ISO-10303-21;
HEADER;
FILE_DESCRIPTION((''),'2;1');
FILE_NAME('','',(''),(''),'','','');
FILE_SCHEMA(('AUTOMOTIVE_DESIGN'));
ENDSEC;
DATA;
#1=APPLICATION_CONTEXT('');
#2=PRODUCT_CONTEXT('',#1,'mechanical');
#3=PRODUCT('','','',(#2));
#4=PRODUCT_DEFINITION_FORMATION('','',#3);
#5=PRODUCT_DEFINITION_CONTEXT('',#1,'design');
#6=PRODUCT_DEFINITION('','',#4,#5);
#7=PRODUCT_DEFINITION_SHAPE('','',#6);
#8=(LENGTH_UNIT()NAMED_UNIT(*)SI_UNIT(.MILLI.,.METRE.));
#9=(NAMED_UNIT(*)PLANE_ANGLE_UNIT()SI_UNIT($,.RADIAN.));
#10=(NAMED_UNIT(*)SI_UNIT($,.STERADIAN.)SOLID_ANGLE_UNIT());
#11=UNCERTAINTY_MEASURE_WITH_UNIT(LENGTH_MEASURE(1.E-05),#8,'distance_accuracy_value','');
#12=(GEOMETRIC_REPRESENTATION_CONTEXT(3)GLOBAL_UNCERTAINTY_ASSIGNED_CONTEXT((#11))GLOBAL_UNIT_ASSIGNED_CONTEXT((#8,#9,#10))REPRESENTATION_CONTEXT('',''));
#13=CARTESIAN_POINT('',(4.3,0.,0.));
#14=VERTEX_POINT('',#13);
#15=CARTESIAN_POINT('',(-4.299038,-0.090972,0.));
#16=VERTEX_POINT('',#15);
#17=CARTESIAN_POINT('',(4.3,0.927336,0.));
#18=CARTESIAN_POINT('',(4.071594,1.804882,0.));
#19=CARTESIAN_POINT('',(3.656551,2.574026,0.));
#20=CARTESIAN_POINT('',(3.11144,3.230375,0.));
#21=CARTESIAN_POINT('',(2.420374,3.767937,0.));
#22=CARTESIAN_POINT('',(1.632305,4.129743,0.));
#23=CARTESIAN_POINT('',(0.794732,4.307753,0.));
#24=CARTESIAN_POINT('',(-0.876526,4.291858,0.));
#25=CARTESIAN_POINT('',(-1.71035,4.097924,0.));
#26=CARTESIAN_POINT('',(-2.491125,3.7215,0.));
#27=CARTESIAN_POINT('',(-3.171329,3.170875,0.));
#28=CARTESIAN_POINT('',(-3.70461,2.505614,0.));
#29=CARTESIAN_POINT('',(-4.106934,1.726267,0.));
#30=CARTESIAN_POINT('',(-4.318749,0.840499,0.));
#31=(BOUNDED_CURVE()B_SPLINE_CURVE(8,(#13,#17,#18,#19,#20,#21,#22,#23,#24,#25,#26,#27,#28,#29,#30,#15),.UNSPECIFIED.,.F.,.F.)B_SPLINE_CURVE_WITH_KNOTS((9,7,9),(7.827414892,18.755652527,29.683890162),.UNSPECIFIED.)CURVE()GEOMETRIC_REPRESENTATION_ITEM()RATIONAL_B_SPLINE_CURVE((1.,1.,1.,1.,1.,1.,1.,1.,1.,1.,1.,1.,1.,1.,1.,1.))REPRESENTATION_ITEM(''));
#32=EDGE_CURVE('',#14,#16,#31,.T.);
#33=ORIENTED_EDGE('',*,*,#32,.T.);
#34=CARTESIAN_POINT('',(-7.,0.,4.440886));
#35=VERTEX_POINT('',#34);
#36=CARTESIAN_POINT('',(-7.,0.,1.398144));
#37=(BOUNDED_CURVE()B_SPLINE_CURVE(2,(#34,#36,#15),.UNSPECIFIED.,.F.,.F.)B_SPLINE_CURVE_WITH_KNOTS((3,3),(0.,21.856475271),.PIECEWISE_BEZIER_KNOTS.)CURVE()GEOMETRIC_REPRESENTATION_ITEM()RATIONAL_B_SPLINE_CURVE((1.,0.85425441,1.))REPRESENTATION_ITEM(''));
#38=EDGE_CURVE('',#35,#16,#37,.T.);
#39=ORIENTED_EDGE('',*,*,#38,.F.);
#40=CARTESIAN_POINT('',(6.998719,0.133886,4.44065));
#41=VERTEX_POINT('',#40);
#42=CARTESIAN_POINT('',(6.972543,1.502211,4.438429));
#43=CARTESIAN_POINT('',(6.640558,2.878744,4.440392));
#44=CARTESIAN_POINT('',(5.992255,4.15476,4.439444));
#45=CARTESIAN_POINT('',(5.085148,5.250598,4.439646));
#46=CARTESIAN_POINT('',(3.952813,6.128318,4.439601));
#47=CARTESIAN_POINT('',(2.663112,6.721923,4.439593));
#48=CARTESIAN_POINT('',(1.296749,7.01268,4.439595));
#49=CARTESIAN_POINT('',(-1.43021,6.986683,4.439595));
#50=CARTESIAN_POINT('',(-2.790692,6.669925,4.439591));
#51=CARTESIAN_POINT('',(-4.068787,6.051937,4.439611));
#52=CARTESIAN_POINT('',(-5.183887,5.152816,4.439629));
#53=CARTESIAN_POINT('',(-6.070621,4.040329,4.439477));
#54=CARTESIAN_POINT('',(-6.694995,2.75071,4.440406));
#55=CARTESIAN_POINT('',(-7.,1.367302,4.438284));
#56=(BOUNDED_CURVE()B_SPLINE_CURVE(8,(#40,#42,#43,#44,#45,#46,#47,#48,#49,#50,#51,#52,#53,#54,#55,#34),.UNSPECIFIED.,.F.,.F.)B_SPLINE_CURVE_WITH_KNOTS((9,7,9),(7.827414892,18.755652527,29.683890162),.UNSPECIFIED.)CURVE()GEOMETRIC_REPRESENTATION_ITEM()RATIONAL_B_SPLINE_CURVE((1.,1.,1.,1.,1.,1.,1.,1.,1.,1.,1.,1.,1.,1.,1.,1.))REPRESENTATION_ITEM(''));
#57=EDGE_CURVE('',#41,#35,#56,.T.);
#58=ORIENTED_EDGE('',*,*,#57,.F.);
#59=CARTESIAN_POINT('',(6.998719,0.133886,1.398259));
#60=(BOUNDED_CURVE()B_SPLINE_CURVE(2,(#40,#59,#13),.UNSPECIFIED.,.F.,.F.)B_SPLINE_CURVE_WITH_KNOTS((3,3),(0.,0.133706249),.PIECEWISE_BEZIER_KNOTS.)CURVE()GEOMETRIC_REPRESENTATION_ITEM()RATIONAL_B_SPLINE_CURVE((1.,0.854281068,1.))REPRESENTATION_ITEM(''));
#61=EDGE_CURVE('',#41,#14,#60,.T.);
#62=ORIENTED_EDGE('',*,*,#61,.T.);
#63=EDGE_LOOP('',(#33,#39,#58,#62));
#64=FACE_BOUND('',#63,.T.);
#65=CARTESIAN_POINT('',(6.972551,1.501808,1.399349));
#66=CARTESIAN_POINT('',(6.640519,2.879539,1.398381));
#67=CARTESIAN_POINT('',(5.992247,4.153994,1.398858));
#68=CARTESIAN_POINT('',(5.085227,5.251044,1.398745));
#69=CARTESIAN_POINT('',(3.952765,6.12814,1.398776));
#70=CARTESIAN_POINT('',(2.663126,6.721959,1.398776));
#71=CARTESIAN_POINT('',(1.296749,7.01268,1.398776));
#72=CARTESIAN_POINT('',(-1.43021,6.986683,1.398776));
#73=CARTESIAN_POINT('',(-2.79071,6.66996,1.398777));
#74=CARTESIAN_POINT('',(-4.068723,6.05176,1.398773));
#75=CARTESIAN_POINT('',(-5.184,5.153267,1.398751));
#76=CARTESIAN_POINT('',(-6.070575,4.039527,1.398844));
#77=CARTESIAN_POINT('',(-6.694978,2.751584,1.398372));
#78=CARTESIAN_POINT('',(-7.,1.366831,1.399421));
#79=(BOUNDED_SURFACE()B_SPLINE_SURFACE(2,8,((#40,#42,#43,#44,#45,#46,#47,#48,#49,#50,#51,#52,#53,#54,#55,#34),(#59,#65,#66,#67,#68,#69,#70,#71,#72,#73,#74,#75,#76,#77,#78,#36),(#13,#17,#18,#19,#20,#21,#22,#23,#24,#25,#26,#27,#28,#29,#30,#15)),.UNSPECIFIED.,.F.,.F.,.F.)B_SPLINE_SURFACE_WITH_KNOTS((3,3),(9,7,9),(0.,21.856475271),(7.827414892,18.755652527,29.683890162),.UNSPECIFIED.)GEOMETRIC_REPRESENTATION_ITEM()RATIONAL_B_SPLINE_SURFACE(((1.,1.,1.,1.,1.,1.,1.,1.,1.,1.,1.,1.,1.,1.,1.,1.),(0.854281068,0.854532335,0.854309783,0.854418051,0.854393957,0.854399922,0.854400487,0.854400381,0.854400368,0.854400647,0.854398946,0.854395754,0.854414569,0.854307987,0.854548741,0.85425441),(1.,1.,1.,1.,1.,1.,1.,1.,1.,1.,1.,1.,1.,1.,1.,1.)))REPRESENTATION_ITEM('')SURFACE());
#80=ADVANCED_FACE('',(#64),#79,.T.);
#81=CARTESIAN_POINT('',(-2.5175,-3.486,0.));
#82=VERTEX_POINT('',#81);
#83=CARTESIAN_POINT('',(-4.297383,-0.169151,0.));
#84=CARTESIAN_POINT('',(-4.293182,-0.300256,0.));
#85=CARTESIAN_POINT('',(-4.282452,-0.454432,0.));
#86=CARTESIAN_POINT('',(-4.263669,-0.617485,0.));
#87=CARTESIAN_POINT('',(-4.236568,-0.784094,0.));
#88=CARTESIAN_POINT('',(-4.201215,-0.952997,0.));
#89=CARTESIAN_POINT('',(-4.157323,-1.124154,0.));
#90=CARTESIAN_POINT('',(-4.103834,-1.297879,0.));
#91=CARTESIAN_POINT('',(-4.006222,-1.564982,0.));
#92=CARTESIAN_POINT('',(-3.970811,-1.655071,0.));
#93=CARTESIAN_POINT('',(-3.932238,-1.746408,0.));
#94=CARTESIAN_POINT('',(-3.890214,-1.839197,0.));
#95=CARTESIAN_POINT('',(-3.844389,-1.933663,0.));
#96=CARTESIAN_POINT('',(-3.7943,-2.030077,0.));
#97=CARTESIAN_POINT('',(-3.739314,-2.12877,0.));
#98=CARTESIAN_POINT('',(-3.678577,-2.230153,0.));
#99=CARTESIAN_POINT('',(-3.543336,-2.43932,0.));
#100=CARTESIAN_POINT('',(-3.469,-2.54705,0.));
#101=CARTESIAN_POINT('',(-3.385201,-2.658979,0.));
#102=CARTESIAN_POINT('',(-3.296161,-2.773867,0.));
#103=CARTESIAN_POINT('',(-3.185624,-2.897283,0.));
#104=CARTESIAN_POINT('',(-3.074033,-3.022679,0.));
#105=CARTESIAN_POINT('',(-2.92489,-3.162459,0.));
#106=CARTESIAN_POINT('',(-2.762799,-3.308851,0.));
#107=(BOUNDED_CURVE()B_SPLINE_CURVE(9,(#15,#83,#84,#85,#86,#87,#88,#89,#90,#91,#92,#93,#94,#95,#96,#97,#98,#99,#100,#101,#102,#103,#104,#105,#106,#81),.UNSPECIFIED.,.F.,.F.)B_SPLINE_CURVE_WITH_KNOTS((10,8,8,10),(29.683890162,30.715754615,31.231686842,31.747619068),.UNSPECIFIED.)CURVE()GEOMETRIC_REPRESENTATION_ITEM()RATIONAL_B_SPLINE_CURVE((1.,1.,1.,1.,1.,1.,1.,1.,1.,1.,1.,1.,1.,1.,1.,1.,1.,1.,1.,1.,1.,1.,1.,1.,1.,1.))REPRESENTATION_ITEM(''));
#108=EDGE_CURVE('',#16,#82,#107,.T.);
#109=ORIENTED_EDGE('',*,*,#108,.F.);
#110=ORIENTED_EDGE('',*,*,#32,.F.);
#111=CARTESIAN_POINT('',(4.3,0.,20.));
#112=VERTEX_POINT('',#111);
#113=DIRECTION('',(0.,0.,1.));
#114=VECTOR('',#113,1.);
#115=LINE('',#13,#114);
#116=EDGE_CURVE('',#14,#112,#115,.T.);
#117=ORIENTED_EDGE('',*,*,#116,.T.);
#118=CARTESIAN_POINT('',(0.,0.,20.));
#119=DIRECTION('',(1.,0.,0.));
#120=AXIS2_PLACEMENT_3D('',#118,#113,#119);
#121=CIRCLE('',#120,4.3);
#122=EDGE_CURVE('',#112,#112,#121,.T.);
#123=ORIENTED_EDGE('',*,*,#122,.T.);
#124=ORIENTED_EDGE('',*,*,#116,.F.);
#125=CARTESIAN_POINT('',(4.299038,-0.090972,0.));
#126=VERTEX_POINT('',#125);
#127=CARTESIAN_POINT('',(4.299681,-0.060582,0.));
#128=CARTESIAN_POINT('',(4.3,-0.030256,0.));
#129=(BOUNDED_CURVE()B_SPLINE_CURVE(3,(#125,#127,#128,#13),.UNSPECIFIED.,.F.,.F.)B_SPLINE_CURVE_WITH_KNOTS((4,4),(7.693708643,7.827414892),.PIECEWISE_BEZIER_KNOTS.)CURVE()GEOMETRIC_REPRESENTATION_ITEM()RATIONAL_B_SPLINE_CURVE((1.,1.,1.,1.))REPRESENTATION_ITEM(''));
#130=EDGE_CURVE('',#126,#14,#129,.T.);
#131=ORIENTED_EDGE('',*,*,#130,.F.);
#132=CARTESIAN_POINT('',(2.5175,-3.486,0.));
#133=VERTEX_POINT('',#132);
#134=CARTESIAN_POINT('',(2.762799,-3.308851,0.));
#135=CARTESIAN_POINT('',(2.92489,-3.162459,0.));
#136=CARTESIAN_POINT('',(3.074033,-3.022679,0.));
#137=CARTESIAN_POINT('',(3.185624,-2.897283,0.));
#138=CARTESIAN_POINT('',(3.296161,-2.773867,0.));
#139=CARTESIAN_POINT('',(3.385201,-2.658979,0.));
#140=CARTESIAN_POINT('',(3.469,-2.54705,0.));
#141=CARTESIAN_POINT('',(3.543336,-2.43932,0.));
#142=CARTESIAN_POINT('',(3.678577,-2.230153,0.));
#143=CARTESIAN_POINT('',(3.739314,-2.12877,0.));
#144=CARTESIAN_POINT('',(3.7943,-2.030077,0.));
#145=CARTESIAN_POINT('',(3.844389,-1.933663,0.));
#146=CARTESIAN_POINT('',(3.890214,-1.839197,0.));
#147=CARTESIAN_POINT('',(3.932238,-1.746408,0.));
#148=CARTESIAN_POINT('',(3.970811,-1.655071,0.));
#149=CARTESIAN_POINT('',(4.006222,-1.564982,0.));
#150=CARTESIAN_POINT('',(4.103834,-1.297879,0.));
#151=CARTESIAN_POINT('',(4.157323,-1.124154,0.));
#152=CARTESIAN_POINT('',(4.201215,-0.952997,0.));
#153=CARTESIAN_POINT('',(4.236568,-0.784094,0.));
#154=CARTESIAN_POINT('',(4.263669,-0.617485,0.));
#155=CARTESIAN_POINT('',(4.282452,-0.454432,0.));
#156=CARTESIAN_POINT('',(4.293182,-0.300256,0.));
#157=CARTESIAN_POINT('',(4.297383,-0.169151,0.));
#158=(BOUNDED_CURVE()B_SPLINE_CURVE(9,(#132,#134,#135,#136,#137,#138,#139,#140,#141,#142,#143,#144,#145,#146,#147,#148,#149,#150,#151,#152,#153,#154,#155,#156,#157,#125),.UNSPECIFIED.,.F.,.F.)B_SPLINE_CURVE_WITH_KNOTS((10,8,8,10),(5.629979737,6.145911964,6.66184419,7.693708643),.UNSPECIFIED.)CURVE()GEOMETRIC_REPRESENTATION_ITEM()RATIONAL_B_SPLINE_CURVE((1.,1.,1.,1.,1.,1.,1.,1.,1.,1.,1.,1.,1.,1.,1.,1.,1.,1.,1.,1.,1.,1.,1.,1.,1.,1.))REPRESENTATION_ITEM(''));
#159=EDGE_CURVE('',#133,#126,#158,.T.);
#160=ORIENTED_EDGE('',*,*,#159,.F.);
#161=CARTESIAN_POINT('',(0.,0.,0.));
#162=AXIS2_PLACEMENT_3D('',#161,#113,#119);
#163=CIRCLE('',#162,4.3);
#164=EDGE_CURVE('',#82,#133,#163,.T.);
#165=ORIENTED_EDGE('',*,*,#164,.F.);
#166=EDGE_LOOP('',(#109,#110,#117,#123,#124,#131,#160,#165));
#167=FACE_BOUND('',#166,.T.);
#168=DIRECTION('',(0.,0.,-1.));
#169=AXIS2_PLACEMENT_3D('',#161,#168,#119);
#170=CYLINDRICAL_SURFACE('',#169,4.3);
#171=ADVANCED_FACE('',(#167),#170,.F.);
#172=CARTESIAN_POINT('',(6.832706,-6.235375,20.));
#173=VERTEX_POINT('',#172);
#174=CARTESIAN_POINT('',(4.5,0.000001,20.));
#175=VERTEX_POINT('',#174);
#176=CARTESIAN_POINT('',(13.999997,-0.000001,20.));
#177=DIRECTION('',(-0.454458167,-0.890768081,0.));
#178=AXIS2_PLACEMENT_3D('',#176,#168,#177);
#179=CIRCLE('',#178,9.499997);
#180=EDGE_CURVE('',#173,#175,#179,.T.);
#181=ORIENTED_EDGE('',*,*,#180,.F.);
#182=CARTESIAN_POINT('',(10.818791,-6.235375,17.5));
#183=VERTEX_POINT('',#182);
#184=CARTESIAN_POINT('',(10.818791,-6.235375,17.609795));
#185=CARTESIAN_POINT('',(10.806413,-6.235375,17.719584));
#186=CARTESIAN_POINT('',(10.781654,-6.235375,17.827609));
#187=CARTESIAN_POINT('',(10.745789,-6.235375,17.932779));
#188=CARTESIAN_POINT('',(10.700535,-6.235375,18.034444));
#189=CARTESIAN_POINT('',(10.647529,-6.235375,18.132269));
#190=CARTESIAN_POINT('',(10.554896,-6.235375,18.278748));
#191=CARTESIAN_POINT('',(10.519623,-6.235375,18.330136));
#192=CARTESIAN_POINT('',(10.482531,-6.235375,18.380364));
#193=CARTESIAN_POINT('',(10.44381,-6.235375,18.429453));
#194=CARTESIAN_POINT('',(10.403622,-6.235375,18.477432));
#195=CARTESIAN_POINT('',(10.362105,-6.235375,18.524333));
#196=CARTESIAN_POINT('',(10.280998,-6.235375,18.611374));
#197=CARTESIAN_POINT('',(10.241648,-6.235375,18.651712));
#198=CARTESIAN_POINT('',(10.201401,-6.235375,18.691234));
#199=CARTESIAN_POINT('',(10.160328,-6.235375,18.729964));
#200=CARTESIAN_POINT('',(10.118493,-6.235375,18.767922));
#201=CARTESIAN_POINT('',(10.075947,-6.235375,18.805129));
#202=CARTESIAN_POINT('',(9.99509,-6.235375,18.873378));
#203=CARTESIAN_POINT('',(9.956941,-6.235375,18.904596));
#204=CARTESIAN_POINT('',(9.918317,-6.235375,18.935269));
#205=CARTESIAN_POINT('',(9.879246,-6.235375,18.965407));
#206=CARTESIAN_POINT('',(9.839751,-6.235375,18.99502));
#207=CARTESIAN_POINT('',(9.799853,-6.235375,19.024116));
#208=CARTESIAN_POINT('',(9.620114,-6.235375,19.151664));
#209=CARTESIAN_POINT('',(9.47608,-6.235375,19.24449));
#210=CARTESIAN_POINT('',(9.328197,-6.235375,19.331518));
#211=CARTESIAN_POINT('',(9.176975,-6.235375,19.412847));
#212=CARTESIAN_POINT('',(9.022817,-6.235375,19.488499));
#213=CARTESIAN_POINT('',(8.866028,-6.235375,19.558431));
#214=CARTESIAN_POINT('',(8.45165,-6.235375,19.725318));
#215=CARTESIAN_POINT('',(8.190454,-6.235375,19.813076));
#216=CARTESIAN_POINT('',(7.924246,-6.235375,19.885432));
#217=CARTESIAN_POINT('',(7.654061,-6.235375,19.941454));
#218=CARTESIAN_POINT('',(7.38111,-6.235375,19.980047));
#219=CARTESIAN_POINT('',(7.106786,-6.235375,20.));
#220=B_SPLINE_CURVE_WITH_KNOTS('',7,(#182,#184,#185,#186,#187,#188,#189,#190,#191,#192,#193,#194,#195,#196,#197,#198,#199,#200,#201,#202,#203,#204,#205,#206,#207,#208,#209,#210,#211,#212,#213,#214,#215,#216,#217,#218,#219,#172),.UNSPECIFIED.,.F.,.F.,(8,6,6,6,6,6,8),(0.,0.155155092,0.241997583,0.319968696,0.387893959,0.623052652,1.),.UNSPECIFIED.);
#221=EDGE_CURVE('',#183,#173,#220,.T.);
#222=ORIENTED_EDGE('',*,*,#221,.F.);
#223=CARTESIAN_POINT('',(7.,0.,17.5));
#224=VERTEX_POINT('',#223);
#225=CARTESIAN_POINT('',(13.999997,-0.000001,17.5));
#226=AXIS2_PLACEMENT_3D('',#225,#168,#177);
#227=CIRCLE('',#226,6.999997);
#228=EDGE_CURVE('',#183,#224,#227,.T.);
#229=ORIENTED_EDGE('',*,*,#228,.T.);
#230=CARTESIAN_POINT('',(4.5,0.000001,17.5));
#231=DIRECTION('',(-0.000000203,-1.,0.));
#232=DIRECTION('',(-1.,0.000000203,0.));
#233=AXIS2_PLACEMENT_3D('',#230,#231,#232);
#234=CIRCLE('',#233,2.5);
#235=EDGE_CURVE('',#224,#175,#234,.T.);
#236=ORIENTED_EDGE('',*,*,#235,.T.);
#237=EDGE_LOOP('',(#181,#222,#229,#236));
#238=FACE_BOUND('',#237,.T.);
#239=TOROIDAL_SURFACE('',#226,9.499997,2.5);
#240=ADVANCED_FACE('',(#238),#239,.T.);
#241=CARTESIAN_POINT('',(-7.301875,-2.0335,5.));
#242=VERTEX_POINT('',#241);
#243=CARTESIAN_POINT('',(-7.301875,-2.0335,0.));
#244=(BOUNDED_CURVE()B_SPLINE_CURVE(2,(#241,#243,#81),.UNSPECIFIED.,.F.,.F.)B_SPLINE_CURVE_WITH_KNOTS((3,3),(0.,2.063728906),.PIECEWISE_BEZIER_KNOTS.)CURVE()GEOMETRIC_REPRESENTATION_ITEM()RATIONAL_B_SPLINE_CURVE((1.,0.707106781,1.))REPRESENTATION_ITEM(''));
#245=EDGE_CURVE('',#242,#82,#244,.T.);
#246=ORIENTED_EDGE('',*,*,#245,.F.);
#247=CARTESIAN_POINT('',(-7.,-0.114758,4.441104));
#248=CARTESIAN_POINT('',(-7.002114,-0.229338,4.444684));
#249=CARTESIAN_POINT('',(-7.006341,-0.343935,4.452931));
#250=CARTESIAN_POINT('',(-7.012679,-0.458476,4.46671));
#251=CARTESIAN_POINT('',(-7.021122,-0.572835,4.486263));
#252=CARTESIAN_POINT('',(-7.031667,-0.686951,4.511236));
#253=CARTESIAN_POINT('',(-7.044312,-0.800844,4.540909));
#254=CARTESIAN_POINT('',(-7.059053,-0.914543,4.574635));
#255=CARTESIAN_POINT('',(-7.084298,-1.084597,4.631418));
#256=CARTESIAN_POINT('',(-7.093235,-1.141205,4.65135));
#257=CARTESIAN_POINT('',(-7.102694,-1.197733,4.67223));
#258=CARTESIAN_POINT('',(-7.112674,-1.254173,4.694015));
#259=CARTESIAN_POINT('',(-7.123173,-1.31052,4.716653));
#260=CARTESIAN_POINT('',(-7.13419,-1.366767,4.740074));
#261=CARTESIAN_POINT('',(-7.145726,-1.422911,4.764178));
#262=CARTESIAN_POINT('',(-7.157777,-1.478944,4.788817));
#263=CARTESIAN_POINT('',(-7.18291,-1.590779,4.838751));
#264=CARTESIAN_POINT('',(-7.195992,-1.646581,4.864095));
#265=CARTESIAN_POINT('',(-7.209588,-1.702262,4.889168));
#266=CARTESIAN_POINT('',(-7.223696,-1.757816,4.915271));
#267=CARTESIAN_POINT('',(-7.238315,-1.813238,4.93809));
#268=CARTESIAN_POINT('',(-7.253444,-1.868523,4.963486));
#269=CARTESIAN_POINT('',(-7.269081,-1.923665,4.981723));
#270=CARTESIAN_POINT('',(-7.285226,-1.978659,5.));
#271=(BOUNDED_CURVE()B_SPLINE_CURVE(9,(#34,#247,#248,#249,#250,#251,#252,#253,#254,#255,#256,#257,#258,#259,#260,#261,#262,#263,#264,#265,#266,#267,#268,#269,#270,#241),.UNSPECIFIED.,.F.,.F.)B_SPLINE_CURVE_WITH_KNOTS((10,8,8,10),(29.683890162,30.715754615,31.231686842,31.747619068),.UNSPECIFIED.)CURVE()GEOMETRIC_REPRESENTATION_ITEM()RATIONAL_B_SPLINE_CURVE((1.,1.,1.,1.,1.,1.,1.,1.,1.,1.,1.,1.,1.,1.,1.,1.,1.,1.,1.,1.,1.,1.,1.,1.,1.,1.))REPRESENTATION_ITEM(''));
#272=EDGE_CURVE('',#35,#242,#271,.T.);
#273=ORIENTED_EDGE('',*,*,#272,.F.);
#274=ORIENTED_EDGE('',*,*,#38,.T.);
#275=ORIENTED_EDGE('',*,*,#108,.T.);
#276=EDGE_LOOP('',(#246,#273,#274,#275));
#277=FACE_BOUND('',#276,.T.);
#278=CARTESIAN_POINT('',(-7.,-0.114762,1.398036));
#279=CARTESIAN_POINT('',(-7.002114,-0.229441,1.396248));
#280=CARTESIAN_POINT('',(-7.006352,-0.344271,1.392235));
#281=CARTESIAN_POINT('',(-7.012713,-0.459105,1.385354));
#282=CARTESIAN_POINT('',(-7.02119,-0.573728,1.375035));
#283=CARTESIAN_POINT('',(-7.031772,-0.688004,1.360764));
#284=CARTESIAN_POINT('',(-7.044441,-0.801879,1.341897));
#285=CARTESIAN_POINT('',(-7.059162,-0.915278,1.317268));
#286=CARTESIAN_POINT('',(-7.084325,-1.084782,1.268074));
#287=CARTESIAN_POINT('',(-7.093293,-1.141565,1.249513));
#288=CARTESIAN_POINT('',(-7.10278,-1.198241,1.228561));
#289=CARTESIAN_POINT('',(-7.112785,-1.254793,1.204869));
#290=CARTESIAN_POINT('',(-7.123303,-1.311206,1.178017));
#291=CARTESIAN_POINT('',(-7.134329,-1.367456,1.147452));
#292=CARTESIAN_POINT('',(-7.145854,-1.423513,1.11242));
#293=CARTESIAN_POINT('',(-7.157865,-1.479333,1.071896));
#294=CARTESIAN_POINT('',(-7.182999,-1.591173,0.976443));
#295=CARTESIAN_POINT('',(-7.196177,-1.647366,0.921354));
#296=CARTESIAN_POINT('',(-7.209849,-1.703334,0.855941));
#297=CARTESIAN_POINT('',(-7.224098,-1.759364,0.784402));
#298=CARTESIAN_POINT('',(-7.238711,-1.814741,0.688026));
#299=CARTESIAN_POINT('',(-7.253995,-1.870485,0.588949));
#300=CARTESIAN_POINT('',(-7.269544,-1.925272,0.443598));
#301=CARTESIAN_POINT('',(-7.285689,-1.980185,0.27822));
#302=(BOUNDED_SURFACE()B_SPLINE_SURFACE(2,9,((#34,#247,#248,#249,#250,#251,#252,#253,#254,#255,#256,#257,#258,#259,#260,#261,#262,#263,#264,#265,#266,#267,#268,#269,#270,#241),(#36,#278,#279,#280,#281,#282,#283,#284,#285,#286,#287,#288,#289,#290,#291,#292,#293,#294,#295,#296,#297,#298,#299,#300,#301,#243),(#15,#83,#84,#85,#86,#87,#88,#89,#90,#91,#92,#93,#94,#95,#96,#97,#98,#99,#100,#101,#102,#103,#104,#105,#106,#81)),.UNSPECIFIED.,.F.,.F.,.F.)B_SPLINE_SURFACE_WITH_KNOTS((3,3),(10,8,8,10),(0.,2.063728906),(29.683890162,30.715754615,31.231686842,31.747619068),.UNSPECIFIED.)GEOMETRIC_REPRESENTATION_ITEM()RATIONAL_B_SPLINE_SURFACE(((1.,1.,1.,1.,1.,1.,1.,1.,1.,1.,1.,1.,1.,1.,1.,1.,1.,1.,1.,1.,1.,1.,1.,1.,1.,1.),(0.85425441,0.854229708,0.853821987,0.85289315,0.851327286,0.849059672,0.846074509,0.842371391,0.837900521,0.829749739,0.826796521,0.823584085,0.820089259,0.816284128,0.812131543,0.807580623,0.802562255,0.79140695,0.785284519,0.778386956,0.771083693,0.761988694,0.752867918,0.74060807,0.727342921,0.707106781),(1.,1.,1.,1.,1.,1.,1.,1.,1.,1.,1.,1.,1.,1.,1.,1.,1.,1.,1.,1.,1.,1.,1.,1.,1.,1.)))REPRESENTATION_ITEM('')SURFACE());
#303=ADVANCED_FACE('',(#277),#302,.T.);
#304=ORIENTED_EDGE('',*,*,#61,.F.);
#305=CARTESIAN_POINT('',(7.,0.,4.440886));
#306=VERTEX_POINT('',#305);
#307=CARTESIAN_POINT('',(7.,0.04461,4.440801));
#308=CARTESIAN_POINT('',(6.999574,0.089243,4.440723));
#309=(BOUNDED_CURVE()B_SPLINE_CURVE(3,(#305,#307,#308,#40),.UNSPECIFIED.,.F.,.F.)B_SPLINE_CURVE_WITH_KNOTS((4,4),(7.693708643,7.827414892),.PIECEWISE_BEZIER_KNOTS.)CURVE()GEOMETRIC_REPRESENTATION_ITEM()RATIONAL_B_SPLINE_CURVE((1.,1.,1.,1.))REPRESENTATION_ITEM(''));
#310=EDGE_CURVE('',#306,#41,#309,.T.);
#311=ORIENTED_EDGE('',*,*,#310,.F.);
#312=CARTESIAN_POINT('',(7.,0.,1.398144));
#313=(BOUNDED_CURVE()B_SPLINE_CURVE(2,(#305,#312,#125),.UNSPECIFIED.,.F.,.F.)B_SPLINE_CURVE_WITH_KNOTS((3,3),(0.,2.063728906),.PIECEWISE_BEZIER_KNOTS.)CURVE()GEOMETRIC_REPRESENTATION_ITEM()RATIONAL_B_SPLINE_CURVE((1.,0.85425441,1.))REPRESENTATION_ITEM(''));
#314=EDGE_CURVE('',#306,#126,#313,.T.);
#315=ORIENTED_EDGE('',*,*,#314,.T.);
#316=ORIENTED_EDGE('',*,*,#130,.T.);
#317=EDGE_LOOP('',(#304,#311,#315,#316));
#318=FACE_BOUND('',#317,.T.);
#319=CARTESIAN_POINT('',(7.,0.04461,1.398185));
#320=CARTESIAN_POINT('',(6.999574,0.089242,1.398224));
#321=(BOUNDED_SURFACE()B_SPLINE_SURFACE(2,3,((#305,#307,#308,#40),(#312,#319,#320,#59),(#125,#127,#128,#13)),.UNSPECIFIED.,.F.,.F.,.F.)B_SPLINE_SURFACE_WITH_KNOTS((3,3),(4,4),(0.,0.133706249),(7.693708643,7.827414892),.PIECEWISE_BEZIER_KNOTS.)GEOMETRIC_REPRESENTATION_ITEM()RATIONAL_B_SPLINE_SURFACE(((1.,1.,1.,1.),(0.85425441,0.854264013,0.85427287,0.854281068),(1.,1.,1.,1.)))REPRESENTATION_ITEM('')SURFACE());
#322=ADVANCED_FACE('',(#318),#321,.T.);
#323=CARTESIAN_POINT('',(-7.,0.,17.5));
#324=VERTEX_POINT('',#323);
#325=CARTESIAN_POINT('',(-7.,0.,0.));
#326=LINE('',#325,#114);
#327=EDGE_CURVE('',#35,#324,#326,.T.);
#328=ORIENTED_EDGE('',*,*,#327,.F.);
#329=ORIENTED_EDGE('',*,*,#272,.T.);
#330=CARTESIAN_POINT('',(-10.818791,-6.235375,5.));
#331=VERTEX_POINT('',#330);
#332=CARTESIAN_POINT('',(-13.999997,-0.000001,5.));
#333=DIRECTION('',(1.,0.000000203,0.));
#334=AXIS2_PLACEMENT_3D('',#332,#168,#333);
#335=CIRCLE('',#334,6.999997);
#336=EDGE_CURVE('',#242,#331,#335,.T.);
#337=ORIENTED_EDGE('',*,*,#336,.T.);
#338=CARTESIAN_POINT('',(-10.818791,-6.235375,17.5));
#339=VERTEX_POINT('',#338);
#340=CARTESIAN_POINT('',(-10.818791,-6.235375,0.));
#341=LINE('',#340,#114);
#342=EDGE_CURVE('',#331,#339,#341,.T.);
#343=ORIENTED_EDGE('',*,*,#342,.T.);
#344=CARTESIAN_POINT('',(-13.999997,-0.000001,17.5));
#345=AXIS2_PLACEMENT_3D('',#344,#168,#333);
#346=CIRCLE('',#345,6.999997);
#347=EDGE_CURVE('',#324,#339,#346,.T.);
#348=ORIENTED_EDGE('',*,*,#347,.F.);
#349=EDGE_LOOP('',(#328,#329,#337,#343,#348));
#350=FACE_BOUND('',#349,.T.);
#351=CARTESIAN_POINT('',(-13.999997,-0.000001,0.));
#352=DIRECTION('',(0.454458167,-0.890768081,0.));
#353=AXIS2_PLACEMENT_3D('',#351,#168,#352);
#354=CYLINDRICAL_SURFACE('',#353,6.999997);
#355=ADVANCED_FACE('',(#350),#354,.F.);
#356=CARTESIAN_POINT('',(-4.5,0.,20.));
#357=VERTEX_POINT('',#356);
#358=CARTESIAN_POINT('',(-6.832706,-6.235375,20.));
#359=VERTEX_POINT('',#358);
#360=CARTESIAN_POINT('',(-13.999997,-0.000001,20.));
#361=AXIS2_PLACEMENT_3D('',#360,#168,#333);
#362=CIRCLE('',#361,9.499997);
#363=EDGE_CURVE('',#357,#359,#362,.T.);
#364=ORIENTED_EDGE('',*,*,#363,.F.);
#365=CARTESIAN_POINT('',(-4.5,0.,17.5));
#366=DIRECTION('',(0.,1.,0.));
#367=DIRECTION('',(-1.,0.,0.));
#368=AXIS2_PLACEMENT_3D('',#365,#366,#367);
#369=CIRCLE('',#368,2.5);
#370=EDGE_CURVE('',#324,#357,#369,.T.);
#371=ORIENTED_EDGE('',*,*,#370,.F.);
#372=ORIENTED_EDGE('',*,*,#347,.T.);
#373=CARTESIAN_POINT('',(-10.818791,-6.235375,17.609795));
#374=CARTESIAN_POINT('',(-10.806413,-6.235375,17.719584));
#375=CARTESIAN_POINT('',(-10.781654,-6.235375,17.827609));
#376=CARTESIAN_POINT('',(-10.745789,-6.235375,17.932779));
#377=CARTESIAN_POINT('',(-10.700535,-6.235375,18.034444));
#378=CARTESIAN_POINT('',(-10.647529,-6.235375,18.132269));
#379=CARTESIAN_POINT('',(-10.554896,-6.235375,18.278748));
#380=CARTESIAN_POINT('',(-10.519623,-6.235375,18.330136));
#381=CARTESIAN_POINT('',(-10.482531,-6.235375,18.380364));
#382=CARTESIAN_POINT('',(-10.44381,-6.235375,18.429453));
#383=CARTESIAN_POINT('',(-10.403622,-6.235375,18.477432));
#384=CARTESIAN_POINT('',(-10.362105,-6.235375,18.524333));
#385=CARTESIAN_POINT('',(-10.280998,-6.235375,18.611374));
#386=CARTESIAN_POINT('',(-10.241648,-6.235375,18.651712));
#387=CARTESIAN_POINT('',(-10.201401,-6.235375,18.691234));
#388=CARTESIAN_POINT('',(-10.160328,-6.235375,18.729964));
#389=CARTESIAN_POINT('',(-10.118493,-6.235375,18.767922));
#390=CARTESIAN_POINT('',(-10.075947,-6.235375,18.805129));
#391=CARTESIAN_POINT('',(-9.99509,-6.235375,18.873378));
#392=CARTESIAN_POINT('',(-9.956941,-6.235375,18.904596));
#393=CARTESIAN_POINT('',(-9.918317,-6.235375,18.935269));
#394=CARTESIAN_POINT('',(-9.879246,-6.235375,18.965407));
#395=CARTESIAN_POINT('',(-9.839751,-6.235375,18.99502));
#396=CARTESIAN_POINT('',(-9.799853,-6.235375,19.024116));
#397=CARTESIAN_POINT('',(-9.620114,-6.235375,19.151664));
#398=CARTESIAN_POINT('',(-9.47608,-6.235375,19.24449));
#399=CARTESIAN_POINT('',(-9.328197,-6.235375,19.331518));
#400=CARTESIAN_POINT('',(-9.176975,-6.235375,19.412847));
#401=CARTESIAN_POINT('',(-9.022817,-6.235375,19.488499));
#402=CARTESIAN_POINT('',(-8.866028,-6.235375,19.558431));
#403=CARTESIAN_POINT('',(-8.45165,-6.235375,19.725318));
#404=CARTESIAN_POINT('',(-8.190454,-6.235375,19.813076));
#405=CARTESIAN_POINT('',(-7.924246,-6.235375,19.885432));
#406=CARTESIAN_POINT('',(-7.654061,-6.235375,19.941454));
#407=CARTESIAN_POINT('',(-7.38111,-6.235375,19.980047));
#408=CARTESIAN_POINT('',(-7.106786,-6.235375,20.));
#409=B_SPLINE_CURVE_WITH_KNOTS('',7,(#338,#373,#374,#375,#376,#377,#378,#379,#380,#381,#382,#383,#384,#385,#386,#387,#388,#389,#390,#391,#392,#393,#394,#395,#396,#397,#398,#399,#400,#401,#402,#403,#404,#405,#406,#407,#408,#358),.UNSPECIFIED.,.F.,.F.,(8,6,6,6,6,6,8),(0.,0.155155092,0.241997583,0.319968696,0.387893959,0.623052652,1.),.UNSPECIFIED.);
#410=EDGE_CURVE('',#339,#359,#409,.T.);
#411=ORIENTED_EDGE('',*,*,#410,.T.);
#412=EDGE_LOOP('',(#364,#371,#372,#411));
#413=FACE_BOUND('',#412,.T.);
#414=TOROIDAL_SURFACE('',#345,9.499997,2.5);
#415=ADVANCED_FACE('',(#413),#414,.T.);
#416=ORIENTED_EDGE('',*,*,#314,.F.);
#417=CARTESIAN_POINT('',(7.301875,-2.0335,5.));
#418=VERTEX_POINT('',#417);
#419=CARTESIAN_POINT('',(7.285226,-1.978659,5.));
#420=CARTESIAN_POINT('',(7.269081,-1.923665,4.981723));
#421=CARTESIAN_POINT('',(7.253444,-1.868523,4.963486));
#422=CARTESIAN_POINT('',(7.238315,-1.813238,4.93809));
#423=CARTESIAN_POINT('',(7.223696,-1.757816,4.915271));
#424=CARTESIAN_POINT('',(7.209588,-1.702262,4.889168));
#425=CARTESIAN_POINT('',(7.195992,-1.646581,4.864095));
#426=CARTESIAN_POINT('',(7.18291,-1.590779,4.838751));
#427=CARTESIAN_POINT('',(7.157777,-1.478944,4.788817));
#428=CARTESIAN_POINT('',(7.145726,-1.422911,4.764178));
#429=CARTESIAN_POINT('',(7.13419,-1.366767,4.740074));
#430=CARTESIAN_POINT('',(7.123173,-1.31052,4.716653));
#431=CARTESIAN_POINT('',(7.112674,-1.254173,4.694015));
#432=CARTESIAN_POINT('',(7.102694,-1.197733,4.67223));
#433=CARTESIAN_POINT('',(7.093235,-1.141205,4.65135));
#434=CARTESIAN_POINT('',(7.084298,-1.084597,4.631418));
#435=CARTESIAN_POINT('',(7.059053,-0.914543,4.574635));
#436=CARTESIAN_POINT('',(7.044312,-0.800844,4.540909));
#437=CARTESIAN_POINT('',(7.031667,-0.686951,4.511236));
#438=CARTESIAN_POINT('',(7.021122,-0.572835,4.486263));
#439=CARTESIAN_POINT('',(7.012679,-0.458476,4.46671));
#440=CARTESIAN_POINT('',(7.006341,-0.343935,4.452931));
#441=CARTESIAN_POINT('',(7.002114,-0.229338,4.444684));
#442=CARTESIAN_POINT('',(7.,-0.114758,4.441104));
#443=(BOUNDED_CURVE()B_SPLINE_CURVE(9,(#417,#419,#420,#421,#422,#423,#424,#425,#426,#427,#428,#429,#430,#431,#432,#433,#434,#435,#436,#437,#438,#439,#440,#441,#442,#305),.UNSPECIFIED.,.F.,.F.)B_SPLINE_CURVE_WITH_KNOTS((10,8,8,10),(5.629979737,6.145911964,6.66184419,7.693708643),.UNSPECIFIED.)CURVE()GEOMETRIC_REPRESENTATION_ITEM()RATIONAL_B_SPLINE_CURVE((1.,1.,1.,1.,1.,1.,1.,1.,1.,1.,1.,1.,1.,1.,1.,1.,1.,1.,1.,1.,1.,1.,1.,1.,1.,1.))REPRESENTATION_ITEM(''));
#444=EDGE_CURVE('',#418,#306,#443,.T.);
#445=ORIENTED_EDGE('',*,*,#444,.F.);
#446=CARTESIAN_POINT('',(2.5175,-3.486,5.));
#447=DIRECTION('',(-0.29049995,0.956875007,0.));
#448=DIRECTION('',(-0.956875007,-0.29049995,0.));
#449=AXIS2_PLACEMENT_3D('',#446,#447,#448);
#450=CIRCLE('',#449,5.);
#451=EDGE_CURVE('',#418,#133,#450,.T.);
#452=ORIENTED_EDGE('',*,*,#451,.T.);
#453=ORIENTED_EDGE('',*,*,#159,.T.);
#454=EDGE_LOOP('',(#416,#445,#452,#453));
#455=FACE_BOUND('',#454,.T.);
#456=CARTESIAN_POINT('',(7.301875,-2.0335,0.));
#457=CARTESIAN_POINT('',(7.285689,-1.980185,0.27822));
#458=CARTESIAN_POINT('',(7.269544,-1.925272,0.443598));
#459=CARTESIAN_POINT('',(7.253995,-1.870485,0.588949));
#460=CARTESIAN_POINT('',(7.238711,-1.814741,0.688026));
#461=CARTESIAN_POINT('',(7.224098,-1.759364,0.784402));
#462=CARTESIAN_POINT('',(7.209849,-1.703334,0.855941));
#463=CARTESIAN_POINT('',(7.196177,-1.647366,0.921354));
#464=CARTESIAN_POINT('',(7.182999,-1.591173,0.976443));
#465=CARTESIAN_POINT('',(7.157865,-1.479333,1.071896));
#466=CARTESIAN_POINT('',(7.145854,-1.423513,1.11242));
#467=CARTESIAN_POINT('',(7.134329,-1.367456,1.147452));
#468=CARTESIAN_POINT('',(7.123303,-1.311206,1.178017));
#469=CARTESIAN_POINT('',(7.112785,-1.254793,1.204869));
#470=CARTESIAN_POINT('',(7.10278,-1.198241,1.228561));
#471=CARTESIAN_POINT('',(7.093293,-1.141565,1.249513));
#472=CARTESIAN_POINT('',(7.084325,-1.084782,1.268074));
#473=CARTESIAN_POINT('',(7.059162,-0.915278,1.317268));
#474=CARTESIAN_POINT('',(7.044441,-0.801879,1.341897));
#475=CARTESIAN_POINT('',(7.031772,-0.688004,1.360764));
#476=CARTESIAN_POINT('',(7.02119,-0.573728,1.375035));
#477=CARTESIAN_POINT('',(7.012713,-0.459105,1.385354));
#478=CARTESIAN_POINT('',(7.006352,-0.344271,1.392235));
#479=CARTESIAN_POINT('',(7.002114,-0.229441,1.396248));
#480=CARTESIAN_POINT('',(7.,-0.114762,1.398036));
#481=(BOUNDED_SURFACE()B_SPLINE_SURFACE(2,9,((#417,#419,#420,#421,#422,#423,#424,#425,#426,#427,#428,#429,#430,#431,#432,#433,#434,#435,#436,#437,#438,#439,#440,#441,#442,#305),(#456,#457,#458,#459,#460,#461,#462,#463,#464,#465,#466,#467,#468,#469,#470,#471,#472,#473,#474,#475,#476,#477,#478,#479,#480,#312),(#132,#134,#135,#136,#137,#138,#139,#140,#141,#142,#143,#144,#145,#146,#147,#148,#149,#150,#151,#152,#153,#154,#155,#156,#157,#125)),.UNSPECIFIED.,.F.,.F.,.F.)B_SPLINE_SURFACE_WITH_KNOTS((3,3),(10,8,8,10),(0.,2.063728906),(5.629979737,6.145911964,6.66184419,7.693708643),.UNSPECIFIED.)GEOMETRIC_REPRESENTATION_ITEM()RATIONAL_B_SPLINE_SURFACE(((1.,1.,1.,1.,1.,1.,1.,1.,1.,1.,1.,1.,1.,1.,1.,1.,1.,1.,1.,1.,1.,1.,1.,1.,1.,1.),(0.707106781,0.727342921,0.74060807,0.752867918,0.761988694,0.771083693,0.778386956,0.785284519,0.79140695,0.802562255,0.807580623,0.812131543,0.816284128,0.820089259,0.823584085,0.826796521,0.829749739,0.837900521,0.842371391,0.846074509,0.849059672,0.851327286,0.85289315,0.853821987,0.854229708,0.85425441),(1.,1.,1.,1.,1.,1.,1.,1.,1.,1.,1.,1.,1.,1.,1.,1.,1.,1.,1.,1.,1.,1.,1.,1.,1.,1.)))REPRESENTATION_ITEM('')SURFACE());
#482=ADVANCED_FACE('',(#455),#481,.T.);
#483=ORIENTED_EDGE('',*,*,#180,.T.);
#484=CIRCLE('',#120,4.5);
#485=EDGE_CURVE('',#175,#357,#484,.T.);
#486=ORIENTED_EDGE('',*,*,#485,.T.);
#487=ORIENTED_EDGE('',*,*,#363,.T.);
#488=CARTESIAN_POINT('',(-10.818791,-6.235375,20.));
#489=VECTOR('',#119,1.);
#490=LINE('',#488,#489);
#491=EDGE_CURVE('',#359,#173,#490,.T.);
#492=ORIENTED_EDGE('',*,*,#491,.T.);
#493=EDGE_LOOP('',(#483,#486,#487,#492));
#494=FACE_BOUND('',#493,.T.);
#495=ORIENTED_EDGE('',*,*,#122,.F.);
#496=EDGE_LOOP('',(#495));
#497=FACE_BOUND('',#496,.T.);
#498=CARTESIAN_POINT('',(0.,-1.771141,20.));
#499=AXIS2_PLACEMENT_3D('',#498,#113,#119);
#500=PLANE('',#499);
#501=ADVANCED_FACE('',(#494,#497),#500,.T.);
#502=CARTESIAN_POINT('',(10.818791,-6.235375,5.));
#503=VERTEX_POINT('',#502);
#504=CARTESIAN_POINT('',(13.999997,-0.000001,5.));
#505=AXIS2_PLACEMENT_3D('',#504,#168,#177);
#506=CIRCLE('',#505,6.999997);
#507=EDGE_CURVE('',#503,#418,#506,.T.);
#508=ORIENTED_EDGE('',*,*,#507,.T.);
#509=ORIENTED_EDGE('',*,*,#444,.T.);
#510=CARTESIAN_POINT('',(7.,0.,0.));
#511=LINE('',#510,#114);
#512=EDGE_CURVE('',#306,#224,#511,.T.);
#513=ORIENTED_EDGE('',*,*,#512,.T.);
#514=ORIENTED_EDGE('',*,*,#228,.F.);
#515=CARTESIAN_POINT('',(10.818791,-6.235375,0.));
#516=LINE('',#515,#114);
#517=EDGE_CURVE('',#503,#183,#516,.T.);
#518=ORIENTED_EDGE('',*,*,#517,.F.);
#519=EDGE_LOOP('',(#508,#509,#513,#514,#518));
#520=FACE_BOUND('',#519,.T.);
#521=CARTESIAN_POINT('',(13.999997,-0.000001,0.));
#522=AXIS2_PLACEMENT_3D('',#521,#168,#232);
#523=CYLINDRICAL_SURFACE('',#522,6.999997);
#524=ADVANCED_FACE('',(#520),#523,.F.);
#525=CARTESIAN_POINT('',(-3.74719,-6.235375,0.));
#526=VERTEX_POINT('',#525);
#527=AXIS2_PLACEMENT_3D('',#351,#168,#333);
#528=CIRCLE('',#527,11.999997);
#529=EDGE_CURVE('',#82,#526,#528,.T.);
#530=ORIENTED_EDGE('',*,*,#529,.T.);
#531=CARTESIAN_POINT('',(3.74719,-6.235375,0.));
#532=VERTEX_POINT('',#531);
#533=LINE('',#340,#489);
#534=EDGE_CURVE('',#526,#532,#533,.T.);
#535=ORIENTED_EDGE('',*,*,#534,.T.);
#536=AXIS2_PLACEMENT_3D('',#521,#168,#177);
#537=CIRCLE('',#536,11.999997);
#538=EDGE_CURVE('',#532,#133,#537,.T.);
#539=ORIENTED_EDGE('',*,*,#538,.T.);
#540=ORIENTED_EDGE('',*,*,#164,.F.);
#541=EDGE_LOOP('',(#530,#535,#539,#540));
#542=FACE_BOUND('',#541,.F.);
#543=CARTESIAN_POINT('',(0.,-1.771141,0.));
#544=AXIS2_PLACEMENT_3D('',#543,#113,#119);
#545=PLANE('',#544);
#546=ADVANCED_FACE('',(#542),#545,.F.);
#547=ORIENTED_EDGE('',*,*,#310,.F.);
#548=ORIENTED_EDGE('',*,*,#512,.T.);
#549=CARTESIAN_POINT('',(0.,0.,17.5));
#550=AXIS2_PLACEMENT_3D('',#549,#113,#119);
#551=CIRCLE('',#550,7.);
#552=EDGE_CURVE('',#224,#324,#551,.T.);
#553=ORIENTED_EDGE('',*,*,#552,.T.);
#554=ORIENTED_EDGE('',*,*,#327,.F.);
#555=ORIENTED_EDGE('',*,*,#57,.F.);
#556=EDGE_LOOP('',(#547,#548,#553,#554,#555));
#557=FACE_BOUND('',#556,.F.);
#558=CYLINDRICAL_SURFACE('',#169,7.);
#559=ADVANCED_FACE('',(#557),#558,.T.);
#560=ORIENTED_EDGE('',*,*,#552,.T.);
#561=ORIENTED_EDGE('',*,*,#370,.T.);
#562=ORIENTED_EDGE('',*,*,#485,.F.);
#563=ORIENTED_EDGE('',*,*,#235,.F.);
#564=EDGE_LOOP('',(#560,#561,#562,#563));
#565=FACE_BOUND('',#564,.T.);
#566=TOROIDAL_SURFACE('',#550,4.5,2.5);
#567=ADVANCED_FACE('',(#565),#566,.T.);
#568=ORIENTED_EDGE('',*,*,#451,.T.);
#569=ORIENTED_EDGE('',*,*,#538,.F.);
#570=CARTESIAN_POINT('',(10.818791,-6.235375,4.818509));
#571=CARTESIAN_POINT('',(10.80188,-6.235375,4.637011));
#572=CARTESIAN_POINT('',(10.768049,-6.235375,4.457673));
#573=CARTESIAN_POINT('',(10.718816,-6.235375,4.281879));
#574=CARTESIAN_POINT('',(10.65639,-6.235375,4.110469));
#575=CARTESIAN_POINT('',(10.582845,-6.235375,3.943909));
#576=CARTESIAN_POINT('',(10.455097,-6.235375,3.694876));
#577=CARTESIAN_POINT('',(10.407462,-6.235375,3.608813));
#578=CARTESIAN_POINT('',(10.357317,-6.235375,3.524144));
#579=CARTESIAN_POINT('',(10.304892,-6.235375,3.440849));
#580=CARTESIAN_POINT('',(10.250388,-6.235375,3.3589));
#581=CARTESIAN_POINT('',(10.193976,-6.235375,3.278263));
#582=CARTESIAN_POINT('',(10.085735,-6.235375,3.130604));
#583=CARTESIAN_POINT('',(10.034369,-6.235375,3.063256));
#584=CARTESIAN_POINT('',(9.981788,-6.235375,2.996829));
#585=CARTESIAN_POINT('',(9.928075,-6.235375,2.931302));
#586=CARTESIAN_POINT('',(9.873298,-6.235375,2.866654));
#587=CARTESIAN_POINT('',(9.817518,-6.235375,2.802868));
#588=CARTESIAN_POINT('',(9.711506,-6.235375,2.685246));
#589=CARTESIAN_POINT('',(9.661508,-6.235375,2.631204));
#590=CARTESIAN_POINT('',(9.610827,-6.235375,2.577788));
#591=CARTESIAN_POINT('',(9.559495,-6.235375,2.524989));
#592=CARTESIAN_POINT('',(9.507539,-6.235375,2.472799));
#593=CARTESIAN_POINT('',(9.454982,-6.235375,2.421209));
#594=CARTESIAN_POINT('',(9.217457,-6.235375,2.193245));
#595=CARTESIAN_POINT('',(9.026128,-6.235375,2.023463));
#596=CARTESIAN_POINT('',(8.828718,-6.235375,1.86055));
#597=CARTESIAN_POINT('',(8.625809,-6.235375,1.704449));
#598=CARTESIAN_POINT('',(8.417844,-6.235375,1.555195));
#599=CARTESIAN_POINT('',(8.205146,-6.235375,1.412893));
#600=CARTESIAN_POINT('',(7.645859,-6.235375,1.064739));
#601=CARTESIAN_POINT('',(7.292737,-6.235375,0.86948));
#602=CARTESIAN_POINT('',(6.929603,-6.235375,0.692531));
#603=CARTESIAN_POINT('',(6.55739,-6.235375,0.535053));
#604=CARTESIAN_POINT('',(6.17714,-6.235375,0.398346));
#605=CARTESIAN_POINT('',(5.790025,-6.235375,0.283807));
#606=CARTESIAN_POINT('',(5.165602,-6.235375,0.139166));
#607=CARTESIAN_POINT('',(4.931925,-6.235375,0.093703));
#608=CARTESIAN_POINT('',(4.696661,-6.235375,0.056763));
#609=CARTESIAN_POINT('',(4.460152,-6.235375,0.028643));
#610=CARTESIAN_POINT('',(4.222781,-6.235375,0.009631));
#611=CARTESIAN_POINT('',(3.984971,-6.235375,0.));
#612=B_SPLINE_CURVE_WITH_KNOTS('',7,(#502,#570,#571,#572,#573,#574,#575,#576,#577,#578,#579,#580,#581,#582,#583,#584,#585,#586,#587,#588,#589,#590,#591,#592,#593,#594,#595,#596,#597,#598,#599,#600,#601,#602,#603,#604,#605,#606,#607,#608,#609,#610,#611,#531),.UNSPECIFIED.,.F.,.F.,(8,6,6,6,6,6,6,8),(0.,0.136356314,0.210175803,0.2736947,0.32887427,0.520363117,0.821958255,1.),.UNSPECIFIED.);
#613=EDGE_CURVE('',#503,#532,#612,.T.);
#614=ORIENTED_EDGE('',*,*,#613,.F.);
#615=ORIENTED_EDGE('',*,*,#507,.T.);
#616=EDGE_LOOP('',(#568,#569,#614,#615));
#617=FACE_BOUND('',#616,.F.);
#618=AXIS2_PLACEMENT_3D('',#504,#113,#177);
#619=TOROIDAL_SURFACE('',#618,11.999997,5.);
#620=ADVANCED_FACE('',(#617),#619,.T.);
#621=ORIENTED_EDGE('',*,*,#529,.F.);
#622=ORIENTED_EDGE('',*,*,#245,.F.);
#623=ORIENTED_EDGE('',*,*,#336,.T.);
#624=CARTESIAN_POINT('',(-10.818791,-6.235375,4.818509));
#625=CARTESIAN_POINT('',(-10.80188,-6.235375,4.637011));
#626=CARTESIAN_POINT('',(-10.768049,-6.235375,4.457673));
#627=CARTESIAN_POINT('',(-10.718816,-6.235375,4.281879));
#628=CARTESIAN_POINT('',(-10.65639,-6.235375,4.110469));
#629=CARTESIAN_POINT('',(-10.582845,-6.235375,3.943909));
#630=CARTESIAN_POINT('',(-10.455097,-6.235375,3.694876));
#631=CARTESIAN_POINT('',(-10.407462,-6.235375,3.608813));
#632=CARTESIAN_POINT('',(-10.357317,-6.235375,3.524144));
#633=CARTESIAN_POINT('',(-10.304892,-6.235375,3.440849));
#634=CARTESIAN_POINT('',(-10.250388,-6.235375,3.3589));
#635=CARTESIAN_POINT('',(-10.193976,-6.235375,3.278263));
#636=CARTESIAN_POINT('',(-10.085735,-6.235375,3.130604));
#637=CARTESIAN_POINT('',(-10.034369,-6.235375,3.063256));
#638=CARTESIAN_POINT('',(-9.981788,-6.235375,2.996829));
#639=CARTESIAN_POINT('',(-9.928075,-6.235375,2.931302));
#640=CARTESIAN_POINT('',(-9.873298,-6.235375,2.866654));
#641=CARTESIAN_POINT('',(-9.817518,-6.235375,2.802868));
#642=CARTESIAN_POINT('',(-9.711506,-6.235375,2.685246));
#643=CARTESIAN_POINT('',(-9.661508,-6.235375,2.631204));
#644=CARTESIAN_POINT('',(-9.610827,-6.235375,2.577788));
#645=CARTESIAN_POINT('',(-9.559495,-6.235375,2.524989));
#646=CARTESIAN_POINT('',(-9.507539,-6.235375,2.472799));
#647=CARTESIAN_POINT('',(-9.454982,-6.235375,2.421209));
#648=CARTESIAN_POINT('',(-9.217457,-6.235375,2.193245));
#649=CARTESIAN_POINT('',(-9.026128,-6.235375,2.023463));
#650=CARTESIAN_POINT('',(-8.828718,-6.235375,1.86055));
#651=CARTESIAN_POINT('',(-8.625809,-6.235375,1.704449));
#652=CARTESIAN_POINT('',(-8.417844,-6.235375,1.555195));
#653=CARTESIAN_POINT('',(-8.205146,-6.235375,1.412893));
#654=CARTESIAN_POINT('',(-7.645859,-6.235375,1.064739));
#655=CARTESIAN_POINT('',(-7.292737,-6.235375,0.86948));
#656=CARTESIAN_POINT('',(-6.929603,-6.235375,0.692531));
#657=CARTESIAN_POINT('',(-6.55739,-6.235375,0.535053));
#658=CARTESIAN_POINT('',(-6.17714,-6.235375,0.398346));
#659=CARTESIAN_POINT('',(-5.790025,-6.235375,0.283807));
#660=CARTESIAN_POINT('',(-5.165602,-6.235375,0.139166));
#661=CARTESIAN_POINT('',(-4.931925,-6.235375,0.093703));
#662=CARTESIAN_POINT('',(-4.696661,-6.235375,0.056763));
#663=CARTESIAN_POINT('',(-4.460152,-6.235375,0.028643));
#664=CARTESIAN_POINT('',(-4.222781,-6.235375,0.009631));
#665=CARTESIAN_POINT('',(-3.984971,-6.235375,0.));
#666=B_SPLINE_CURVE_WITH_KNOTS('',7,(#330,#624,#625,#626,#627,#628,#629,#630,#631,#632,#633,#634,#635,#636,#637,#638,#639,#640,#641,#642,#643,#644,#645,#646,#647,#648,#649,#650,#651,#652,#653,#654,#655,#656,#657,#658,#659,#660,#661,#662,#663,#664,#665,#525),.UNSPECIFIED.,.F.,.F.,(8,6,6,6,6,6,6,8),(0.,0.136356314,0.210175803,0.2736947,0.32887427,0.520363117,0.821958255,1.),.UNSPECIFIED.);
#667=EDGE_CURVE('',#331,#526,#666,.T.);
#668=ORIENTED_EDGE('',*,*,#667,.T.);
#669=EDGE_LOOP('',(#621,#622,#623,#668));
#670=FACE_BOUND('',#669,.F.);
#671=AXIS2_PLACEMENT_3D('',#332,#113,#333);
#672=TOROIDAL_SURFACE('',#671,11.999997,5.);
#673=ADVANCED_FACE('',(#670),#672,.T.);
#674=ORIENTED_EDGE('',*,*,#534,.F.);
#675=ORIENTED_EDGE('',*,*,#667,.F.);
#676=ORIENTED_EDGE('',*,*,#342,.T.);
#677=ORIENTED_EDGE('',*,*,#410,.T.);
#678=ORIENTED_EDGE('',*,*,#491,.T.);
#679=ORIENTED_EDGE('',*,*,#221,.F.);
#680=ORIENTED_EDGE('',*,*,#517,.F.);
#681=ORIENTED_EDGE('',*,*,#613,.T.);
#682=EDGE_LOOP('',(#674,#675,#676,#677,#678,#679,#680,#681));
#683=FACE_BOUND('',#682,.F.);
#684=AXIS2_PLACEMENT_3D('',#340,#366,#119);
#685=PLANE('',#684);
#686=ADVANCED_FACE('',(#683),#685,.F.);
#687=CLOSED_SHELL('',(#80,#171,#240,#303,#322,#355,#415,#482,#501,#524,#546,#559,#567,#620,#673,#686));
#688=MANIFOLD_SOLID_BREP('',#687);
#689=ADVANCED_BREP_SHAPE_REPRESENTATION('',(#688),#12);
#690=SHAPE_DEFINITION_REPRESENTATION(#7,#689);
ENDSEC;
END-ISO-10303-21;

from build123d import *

# Parameters (mm, degrees)
SKETCH_R    = 4.3
PAD_DEPTH   = 20
FILLET_R    = 2.5
FILLET001_R = 5


with BuildPart() as part:
    # Sketch → Pad (new body)
    with BuildSketch(Plane.XY):
        with BuildLine():
            ThreePointArc((7, 0), (0, 7), (-7, 0))
            ThreePointArc((-10.818791, -6.235375), (-8.030558, -3.655922), (-7, 0))
            Line((-10.818791, -6.235375), (10.818791, -6.235375))
            ThreePointArc((7, 0), (8.030558, -3.655922), (10.818791, -6.235375))
        make_face()
        Circle(SKETCH_R, mode=Mode.SUBTRACT)
    extrude(amount=PAD_DEPTH)

    # Fillet
    fillet_edges = [part.edges().sort_by_distance(p)[0] for p in [
        (0, 7, 20),
        (8.030558, -3.655922, 20),
        (-8.030558, -3.655922, 20),
    ]]
    fillet(fillet_edges, radius=FILLET_R)

    # Fillet001
    fillet001_edges = [part.edges().sort_by_distance(p)[0] for p in [
        (0, 7, 0),
        (-8.030558, -3.655922, 0),
        (8.030558, -3.655922, 0),
    ]]
    fillet(fillet001_edges, radius=FILLET001_R)


solid = part.part
